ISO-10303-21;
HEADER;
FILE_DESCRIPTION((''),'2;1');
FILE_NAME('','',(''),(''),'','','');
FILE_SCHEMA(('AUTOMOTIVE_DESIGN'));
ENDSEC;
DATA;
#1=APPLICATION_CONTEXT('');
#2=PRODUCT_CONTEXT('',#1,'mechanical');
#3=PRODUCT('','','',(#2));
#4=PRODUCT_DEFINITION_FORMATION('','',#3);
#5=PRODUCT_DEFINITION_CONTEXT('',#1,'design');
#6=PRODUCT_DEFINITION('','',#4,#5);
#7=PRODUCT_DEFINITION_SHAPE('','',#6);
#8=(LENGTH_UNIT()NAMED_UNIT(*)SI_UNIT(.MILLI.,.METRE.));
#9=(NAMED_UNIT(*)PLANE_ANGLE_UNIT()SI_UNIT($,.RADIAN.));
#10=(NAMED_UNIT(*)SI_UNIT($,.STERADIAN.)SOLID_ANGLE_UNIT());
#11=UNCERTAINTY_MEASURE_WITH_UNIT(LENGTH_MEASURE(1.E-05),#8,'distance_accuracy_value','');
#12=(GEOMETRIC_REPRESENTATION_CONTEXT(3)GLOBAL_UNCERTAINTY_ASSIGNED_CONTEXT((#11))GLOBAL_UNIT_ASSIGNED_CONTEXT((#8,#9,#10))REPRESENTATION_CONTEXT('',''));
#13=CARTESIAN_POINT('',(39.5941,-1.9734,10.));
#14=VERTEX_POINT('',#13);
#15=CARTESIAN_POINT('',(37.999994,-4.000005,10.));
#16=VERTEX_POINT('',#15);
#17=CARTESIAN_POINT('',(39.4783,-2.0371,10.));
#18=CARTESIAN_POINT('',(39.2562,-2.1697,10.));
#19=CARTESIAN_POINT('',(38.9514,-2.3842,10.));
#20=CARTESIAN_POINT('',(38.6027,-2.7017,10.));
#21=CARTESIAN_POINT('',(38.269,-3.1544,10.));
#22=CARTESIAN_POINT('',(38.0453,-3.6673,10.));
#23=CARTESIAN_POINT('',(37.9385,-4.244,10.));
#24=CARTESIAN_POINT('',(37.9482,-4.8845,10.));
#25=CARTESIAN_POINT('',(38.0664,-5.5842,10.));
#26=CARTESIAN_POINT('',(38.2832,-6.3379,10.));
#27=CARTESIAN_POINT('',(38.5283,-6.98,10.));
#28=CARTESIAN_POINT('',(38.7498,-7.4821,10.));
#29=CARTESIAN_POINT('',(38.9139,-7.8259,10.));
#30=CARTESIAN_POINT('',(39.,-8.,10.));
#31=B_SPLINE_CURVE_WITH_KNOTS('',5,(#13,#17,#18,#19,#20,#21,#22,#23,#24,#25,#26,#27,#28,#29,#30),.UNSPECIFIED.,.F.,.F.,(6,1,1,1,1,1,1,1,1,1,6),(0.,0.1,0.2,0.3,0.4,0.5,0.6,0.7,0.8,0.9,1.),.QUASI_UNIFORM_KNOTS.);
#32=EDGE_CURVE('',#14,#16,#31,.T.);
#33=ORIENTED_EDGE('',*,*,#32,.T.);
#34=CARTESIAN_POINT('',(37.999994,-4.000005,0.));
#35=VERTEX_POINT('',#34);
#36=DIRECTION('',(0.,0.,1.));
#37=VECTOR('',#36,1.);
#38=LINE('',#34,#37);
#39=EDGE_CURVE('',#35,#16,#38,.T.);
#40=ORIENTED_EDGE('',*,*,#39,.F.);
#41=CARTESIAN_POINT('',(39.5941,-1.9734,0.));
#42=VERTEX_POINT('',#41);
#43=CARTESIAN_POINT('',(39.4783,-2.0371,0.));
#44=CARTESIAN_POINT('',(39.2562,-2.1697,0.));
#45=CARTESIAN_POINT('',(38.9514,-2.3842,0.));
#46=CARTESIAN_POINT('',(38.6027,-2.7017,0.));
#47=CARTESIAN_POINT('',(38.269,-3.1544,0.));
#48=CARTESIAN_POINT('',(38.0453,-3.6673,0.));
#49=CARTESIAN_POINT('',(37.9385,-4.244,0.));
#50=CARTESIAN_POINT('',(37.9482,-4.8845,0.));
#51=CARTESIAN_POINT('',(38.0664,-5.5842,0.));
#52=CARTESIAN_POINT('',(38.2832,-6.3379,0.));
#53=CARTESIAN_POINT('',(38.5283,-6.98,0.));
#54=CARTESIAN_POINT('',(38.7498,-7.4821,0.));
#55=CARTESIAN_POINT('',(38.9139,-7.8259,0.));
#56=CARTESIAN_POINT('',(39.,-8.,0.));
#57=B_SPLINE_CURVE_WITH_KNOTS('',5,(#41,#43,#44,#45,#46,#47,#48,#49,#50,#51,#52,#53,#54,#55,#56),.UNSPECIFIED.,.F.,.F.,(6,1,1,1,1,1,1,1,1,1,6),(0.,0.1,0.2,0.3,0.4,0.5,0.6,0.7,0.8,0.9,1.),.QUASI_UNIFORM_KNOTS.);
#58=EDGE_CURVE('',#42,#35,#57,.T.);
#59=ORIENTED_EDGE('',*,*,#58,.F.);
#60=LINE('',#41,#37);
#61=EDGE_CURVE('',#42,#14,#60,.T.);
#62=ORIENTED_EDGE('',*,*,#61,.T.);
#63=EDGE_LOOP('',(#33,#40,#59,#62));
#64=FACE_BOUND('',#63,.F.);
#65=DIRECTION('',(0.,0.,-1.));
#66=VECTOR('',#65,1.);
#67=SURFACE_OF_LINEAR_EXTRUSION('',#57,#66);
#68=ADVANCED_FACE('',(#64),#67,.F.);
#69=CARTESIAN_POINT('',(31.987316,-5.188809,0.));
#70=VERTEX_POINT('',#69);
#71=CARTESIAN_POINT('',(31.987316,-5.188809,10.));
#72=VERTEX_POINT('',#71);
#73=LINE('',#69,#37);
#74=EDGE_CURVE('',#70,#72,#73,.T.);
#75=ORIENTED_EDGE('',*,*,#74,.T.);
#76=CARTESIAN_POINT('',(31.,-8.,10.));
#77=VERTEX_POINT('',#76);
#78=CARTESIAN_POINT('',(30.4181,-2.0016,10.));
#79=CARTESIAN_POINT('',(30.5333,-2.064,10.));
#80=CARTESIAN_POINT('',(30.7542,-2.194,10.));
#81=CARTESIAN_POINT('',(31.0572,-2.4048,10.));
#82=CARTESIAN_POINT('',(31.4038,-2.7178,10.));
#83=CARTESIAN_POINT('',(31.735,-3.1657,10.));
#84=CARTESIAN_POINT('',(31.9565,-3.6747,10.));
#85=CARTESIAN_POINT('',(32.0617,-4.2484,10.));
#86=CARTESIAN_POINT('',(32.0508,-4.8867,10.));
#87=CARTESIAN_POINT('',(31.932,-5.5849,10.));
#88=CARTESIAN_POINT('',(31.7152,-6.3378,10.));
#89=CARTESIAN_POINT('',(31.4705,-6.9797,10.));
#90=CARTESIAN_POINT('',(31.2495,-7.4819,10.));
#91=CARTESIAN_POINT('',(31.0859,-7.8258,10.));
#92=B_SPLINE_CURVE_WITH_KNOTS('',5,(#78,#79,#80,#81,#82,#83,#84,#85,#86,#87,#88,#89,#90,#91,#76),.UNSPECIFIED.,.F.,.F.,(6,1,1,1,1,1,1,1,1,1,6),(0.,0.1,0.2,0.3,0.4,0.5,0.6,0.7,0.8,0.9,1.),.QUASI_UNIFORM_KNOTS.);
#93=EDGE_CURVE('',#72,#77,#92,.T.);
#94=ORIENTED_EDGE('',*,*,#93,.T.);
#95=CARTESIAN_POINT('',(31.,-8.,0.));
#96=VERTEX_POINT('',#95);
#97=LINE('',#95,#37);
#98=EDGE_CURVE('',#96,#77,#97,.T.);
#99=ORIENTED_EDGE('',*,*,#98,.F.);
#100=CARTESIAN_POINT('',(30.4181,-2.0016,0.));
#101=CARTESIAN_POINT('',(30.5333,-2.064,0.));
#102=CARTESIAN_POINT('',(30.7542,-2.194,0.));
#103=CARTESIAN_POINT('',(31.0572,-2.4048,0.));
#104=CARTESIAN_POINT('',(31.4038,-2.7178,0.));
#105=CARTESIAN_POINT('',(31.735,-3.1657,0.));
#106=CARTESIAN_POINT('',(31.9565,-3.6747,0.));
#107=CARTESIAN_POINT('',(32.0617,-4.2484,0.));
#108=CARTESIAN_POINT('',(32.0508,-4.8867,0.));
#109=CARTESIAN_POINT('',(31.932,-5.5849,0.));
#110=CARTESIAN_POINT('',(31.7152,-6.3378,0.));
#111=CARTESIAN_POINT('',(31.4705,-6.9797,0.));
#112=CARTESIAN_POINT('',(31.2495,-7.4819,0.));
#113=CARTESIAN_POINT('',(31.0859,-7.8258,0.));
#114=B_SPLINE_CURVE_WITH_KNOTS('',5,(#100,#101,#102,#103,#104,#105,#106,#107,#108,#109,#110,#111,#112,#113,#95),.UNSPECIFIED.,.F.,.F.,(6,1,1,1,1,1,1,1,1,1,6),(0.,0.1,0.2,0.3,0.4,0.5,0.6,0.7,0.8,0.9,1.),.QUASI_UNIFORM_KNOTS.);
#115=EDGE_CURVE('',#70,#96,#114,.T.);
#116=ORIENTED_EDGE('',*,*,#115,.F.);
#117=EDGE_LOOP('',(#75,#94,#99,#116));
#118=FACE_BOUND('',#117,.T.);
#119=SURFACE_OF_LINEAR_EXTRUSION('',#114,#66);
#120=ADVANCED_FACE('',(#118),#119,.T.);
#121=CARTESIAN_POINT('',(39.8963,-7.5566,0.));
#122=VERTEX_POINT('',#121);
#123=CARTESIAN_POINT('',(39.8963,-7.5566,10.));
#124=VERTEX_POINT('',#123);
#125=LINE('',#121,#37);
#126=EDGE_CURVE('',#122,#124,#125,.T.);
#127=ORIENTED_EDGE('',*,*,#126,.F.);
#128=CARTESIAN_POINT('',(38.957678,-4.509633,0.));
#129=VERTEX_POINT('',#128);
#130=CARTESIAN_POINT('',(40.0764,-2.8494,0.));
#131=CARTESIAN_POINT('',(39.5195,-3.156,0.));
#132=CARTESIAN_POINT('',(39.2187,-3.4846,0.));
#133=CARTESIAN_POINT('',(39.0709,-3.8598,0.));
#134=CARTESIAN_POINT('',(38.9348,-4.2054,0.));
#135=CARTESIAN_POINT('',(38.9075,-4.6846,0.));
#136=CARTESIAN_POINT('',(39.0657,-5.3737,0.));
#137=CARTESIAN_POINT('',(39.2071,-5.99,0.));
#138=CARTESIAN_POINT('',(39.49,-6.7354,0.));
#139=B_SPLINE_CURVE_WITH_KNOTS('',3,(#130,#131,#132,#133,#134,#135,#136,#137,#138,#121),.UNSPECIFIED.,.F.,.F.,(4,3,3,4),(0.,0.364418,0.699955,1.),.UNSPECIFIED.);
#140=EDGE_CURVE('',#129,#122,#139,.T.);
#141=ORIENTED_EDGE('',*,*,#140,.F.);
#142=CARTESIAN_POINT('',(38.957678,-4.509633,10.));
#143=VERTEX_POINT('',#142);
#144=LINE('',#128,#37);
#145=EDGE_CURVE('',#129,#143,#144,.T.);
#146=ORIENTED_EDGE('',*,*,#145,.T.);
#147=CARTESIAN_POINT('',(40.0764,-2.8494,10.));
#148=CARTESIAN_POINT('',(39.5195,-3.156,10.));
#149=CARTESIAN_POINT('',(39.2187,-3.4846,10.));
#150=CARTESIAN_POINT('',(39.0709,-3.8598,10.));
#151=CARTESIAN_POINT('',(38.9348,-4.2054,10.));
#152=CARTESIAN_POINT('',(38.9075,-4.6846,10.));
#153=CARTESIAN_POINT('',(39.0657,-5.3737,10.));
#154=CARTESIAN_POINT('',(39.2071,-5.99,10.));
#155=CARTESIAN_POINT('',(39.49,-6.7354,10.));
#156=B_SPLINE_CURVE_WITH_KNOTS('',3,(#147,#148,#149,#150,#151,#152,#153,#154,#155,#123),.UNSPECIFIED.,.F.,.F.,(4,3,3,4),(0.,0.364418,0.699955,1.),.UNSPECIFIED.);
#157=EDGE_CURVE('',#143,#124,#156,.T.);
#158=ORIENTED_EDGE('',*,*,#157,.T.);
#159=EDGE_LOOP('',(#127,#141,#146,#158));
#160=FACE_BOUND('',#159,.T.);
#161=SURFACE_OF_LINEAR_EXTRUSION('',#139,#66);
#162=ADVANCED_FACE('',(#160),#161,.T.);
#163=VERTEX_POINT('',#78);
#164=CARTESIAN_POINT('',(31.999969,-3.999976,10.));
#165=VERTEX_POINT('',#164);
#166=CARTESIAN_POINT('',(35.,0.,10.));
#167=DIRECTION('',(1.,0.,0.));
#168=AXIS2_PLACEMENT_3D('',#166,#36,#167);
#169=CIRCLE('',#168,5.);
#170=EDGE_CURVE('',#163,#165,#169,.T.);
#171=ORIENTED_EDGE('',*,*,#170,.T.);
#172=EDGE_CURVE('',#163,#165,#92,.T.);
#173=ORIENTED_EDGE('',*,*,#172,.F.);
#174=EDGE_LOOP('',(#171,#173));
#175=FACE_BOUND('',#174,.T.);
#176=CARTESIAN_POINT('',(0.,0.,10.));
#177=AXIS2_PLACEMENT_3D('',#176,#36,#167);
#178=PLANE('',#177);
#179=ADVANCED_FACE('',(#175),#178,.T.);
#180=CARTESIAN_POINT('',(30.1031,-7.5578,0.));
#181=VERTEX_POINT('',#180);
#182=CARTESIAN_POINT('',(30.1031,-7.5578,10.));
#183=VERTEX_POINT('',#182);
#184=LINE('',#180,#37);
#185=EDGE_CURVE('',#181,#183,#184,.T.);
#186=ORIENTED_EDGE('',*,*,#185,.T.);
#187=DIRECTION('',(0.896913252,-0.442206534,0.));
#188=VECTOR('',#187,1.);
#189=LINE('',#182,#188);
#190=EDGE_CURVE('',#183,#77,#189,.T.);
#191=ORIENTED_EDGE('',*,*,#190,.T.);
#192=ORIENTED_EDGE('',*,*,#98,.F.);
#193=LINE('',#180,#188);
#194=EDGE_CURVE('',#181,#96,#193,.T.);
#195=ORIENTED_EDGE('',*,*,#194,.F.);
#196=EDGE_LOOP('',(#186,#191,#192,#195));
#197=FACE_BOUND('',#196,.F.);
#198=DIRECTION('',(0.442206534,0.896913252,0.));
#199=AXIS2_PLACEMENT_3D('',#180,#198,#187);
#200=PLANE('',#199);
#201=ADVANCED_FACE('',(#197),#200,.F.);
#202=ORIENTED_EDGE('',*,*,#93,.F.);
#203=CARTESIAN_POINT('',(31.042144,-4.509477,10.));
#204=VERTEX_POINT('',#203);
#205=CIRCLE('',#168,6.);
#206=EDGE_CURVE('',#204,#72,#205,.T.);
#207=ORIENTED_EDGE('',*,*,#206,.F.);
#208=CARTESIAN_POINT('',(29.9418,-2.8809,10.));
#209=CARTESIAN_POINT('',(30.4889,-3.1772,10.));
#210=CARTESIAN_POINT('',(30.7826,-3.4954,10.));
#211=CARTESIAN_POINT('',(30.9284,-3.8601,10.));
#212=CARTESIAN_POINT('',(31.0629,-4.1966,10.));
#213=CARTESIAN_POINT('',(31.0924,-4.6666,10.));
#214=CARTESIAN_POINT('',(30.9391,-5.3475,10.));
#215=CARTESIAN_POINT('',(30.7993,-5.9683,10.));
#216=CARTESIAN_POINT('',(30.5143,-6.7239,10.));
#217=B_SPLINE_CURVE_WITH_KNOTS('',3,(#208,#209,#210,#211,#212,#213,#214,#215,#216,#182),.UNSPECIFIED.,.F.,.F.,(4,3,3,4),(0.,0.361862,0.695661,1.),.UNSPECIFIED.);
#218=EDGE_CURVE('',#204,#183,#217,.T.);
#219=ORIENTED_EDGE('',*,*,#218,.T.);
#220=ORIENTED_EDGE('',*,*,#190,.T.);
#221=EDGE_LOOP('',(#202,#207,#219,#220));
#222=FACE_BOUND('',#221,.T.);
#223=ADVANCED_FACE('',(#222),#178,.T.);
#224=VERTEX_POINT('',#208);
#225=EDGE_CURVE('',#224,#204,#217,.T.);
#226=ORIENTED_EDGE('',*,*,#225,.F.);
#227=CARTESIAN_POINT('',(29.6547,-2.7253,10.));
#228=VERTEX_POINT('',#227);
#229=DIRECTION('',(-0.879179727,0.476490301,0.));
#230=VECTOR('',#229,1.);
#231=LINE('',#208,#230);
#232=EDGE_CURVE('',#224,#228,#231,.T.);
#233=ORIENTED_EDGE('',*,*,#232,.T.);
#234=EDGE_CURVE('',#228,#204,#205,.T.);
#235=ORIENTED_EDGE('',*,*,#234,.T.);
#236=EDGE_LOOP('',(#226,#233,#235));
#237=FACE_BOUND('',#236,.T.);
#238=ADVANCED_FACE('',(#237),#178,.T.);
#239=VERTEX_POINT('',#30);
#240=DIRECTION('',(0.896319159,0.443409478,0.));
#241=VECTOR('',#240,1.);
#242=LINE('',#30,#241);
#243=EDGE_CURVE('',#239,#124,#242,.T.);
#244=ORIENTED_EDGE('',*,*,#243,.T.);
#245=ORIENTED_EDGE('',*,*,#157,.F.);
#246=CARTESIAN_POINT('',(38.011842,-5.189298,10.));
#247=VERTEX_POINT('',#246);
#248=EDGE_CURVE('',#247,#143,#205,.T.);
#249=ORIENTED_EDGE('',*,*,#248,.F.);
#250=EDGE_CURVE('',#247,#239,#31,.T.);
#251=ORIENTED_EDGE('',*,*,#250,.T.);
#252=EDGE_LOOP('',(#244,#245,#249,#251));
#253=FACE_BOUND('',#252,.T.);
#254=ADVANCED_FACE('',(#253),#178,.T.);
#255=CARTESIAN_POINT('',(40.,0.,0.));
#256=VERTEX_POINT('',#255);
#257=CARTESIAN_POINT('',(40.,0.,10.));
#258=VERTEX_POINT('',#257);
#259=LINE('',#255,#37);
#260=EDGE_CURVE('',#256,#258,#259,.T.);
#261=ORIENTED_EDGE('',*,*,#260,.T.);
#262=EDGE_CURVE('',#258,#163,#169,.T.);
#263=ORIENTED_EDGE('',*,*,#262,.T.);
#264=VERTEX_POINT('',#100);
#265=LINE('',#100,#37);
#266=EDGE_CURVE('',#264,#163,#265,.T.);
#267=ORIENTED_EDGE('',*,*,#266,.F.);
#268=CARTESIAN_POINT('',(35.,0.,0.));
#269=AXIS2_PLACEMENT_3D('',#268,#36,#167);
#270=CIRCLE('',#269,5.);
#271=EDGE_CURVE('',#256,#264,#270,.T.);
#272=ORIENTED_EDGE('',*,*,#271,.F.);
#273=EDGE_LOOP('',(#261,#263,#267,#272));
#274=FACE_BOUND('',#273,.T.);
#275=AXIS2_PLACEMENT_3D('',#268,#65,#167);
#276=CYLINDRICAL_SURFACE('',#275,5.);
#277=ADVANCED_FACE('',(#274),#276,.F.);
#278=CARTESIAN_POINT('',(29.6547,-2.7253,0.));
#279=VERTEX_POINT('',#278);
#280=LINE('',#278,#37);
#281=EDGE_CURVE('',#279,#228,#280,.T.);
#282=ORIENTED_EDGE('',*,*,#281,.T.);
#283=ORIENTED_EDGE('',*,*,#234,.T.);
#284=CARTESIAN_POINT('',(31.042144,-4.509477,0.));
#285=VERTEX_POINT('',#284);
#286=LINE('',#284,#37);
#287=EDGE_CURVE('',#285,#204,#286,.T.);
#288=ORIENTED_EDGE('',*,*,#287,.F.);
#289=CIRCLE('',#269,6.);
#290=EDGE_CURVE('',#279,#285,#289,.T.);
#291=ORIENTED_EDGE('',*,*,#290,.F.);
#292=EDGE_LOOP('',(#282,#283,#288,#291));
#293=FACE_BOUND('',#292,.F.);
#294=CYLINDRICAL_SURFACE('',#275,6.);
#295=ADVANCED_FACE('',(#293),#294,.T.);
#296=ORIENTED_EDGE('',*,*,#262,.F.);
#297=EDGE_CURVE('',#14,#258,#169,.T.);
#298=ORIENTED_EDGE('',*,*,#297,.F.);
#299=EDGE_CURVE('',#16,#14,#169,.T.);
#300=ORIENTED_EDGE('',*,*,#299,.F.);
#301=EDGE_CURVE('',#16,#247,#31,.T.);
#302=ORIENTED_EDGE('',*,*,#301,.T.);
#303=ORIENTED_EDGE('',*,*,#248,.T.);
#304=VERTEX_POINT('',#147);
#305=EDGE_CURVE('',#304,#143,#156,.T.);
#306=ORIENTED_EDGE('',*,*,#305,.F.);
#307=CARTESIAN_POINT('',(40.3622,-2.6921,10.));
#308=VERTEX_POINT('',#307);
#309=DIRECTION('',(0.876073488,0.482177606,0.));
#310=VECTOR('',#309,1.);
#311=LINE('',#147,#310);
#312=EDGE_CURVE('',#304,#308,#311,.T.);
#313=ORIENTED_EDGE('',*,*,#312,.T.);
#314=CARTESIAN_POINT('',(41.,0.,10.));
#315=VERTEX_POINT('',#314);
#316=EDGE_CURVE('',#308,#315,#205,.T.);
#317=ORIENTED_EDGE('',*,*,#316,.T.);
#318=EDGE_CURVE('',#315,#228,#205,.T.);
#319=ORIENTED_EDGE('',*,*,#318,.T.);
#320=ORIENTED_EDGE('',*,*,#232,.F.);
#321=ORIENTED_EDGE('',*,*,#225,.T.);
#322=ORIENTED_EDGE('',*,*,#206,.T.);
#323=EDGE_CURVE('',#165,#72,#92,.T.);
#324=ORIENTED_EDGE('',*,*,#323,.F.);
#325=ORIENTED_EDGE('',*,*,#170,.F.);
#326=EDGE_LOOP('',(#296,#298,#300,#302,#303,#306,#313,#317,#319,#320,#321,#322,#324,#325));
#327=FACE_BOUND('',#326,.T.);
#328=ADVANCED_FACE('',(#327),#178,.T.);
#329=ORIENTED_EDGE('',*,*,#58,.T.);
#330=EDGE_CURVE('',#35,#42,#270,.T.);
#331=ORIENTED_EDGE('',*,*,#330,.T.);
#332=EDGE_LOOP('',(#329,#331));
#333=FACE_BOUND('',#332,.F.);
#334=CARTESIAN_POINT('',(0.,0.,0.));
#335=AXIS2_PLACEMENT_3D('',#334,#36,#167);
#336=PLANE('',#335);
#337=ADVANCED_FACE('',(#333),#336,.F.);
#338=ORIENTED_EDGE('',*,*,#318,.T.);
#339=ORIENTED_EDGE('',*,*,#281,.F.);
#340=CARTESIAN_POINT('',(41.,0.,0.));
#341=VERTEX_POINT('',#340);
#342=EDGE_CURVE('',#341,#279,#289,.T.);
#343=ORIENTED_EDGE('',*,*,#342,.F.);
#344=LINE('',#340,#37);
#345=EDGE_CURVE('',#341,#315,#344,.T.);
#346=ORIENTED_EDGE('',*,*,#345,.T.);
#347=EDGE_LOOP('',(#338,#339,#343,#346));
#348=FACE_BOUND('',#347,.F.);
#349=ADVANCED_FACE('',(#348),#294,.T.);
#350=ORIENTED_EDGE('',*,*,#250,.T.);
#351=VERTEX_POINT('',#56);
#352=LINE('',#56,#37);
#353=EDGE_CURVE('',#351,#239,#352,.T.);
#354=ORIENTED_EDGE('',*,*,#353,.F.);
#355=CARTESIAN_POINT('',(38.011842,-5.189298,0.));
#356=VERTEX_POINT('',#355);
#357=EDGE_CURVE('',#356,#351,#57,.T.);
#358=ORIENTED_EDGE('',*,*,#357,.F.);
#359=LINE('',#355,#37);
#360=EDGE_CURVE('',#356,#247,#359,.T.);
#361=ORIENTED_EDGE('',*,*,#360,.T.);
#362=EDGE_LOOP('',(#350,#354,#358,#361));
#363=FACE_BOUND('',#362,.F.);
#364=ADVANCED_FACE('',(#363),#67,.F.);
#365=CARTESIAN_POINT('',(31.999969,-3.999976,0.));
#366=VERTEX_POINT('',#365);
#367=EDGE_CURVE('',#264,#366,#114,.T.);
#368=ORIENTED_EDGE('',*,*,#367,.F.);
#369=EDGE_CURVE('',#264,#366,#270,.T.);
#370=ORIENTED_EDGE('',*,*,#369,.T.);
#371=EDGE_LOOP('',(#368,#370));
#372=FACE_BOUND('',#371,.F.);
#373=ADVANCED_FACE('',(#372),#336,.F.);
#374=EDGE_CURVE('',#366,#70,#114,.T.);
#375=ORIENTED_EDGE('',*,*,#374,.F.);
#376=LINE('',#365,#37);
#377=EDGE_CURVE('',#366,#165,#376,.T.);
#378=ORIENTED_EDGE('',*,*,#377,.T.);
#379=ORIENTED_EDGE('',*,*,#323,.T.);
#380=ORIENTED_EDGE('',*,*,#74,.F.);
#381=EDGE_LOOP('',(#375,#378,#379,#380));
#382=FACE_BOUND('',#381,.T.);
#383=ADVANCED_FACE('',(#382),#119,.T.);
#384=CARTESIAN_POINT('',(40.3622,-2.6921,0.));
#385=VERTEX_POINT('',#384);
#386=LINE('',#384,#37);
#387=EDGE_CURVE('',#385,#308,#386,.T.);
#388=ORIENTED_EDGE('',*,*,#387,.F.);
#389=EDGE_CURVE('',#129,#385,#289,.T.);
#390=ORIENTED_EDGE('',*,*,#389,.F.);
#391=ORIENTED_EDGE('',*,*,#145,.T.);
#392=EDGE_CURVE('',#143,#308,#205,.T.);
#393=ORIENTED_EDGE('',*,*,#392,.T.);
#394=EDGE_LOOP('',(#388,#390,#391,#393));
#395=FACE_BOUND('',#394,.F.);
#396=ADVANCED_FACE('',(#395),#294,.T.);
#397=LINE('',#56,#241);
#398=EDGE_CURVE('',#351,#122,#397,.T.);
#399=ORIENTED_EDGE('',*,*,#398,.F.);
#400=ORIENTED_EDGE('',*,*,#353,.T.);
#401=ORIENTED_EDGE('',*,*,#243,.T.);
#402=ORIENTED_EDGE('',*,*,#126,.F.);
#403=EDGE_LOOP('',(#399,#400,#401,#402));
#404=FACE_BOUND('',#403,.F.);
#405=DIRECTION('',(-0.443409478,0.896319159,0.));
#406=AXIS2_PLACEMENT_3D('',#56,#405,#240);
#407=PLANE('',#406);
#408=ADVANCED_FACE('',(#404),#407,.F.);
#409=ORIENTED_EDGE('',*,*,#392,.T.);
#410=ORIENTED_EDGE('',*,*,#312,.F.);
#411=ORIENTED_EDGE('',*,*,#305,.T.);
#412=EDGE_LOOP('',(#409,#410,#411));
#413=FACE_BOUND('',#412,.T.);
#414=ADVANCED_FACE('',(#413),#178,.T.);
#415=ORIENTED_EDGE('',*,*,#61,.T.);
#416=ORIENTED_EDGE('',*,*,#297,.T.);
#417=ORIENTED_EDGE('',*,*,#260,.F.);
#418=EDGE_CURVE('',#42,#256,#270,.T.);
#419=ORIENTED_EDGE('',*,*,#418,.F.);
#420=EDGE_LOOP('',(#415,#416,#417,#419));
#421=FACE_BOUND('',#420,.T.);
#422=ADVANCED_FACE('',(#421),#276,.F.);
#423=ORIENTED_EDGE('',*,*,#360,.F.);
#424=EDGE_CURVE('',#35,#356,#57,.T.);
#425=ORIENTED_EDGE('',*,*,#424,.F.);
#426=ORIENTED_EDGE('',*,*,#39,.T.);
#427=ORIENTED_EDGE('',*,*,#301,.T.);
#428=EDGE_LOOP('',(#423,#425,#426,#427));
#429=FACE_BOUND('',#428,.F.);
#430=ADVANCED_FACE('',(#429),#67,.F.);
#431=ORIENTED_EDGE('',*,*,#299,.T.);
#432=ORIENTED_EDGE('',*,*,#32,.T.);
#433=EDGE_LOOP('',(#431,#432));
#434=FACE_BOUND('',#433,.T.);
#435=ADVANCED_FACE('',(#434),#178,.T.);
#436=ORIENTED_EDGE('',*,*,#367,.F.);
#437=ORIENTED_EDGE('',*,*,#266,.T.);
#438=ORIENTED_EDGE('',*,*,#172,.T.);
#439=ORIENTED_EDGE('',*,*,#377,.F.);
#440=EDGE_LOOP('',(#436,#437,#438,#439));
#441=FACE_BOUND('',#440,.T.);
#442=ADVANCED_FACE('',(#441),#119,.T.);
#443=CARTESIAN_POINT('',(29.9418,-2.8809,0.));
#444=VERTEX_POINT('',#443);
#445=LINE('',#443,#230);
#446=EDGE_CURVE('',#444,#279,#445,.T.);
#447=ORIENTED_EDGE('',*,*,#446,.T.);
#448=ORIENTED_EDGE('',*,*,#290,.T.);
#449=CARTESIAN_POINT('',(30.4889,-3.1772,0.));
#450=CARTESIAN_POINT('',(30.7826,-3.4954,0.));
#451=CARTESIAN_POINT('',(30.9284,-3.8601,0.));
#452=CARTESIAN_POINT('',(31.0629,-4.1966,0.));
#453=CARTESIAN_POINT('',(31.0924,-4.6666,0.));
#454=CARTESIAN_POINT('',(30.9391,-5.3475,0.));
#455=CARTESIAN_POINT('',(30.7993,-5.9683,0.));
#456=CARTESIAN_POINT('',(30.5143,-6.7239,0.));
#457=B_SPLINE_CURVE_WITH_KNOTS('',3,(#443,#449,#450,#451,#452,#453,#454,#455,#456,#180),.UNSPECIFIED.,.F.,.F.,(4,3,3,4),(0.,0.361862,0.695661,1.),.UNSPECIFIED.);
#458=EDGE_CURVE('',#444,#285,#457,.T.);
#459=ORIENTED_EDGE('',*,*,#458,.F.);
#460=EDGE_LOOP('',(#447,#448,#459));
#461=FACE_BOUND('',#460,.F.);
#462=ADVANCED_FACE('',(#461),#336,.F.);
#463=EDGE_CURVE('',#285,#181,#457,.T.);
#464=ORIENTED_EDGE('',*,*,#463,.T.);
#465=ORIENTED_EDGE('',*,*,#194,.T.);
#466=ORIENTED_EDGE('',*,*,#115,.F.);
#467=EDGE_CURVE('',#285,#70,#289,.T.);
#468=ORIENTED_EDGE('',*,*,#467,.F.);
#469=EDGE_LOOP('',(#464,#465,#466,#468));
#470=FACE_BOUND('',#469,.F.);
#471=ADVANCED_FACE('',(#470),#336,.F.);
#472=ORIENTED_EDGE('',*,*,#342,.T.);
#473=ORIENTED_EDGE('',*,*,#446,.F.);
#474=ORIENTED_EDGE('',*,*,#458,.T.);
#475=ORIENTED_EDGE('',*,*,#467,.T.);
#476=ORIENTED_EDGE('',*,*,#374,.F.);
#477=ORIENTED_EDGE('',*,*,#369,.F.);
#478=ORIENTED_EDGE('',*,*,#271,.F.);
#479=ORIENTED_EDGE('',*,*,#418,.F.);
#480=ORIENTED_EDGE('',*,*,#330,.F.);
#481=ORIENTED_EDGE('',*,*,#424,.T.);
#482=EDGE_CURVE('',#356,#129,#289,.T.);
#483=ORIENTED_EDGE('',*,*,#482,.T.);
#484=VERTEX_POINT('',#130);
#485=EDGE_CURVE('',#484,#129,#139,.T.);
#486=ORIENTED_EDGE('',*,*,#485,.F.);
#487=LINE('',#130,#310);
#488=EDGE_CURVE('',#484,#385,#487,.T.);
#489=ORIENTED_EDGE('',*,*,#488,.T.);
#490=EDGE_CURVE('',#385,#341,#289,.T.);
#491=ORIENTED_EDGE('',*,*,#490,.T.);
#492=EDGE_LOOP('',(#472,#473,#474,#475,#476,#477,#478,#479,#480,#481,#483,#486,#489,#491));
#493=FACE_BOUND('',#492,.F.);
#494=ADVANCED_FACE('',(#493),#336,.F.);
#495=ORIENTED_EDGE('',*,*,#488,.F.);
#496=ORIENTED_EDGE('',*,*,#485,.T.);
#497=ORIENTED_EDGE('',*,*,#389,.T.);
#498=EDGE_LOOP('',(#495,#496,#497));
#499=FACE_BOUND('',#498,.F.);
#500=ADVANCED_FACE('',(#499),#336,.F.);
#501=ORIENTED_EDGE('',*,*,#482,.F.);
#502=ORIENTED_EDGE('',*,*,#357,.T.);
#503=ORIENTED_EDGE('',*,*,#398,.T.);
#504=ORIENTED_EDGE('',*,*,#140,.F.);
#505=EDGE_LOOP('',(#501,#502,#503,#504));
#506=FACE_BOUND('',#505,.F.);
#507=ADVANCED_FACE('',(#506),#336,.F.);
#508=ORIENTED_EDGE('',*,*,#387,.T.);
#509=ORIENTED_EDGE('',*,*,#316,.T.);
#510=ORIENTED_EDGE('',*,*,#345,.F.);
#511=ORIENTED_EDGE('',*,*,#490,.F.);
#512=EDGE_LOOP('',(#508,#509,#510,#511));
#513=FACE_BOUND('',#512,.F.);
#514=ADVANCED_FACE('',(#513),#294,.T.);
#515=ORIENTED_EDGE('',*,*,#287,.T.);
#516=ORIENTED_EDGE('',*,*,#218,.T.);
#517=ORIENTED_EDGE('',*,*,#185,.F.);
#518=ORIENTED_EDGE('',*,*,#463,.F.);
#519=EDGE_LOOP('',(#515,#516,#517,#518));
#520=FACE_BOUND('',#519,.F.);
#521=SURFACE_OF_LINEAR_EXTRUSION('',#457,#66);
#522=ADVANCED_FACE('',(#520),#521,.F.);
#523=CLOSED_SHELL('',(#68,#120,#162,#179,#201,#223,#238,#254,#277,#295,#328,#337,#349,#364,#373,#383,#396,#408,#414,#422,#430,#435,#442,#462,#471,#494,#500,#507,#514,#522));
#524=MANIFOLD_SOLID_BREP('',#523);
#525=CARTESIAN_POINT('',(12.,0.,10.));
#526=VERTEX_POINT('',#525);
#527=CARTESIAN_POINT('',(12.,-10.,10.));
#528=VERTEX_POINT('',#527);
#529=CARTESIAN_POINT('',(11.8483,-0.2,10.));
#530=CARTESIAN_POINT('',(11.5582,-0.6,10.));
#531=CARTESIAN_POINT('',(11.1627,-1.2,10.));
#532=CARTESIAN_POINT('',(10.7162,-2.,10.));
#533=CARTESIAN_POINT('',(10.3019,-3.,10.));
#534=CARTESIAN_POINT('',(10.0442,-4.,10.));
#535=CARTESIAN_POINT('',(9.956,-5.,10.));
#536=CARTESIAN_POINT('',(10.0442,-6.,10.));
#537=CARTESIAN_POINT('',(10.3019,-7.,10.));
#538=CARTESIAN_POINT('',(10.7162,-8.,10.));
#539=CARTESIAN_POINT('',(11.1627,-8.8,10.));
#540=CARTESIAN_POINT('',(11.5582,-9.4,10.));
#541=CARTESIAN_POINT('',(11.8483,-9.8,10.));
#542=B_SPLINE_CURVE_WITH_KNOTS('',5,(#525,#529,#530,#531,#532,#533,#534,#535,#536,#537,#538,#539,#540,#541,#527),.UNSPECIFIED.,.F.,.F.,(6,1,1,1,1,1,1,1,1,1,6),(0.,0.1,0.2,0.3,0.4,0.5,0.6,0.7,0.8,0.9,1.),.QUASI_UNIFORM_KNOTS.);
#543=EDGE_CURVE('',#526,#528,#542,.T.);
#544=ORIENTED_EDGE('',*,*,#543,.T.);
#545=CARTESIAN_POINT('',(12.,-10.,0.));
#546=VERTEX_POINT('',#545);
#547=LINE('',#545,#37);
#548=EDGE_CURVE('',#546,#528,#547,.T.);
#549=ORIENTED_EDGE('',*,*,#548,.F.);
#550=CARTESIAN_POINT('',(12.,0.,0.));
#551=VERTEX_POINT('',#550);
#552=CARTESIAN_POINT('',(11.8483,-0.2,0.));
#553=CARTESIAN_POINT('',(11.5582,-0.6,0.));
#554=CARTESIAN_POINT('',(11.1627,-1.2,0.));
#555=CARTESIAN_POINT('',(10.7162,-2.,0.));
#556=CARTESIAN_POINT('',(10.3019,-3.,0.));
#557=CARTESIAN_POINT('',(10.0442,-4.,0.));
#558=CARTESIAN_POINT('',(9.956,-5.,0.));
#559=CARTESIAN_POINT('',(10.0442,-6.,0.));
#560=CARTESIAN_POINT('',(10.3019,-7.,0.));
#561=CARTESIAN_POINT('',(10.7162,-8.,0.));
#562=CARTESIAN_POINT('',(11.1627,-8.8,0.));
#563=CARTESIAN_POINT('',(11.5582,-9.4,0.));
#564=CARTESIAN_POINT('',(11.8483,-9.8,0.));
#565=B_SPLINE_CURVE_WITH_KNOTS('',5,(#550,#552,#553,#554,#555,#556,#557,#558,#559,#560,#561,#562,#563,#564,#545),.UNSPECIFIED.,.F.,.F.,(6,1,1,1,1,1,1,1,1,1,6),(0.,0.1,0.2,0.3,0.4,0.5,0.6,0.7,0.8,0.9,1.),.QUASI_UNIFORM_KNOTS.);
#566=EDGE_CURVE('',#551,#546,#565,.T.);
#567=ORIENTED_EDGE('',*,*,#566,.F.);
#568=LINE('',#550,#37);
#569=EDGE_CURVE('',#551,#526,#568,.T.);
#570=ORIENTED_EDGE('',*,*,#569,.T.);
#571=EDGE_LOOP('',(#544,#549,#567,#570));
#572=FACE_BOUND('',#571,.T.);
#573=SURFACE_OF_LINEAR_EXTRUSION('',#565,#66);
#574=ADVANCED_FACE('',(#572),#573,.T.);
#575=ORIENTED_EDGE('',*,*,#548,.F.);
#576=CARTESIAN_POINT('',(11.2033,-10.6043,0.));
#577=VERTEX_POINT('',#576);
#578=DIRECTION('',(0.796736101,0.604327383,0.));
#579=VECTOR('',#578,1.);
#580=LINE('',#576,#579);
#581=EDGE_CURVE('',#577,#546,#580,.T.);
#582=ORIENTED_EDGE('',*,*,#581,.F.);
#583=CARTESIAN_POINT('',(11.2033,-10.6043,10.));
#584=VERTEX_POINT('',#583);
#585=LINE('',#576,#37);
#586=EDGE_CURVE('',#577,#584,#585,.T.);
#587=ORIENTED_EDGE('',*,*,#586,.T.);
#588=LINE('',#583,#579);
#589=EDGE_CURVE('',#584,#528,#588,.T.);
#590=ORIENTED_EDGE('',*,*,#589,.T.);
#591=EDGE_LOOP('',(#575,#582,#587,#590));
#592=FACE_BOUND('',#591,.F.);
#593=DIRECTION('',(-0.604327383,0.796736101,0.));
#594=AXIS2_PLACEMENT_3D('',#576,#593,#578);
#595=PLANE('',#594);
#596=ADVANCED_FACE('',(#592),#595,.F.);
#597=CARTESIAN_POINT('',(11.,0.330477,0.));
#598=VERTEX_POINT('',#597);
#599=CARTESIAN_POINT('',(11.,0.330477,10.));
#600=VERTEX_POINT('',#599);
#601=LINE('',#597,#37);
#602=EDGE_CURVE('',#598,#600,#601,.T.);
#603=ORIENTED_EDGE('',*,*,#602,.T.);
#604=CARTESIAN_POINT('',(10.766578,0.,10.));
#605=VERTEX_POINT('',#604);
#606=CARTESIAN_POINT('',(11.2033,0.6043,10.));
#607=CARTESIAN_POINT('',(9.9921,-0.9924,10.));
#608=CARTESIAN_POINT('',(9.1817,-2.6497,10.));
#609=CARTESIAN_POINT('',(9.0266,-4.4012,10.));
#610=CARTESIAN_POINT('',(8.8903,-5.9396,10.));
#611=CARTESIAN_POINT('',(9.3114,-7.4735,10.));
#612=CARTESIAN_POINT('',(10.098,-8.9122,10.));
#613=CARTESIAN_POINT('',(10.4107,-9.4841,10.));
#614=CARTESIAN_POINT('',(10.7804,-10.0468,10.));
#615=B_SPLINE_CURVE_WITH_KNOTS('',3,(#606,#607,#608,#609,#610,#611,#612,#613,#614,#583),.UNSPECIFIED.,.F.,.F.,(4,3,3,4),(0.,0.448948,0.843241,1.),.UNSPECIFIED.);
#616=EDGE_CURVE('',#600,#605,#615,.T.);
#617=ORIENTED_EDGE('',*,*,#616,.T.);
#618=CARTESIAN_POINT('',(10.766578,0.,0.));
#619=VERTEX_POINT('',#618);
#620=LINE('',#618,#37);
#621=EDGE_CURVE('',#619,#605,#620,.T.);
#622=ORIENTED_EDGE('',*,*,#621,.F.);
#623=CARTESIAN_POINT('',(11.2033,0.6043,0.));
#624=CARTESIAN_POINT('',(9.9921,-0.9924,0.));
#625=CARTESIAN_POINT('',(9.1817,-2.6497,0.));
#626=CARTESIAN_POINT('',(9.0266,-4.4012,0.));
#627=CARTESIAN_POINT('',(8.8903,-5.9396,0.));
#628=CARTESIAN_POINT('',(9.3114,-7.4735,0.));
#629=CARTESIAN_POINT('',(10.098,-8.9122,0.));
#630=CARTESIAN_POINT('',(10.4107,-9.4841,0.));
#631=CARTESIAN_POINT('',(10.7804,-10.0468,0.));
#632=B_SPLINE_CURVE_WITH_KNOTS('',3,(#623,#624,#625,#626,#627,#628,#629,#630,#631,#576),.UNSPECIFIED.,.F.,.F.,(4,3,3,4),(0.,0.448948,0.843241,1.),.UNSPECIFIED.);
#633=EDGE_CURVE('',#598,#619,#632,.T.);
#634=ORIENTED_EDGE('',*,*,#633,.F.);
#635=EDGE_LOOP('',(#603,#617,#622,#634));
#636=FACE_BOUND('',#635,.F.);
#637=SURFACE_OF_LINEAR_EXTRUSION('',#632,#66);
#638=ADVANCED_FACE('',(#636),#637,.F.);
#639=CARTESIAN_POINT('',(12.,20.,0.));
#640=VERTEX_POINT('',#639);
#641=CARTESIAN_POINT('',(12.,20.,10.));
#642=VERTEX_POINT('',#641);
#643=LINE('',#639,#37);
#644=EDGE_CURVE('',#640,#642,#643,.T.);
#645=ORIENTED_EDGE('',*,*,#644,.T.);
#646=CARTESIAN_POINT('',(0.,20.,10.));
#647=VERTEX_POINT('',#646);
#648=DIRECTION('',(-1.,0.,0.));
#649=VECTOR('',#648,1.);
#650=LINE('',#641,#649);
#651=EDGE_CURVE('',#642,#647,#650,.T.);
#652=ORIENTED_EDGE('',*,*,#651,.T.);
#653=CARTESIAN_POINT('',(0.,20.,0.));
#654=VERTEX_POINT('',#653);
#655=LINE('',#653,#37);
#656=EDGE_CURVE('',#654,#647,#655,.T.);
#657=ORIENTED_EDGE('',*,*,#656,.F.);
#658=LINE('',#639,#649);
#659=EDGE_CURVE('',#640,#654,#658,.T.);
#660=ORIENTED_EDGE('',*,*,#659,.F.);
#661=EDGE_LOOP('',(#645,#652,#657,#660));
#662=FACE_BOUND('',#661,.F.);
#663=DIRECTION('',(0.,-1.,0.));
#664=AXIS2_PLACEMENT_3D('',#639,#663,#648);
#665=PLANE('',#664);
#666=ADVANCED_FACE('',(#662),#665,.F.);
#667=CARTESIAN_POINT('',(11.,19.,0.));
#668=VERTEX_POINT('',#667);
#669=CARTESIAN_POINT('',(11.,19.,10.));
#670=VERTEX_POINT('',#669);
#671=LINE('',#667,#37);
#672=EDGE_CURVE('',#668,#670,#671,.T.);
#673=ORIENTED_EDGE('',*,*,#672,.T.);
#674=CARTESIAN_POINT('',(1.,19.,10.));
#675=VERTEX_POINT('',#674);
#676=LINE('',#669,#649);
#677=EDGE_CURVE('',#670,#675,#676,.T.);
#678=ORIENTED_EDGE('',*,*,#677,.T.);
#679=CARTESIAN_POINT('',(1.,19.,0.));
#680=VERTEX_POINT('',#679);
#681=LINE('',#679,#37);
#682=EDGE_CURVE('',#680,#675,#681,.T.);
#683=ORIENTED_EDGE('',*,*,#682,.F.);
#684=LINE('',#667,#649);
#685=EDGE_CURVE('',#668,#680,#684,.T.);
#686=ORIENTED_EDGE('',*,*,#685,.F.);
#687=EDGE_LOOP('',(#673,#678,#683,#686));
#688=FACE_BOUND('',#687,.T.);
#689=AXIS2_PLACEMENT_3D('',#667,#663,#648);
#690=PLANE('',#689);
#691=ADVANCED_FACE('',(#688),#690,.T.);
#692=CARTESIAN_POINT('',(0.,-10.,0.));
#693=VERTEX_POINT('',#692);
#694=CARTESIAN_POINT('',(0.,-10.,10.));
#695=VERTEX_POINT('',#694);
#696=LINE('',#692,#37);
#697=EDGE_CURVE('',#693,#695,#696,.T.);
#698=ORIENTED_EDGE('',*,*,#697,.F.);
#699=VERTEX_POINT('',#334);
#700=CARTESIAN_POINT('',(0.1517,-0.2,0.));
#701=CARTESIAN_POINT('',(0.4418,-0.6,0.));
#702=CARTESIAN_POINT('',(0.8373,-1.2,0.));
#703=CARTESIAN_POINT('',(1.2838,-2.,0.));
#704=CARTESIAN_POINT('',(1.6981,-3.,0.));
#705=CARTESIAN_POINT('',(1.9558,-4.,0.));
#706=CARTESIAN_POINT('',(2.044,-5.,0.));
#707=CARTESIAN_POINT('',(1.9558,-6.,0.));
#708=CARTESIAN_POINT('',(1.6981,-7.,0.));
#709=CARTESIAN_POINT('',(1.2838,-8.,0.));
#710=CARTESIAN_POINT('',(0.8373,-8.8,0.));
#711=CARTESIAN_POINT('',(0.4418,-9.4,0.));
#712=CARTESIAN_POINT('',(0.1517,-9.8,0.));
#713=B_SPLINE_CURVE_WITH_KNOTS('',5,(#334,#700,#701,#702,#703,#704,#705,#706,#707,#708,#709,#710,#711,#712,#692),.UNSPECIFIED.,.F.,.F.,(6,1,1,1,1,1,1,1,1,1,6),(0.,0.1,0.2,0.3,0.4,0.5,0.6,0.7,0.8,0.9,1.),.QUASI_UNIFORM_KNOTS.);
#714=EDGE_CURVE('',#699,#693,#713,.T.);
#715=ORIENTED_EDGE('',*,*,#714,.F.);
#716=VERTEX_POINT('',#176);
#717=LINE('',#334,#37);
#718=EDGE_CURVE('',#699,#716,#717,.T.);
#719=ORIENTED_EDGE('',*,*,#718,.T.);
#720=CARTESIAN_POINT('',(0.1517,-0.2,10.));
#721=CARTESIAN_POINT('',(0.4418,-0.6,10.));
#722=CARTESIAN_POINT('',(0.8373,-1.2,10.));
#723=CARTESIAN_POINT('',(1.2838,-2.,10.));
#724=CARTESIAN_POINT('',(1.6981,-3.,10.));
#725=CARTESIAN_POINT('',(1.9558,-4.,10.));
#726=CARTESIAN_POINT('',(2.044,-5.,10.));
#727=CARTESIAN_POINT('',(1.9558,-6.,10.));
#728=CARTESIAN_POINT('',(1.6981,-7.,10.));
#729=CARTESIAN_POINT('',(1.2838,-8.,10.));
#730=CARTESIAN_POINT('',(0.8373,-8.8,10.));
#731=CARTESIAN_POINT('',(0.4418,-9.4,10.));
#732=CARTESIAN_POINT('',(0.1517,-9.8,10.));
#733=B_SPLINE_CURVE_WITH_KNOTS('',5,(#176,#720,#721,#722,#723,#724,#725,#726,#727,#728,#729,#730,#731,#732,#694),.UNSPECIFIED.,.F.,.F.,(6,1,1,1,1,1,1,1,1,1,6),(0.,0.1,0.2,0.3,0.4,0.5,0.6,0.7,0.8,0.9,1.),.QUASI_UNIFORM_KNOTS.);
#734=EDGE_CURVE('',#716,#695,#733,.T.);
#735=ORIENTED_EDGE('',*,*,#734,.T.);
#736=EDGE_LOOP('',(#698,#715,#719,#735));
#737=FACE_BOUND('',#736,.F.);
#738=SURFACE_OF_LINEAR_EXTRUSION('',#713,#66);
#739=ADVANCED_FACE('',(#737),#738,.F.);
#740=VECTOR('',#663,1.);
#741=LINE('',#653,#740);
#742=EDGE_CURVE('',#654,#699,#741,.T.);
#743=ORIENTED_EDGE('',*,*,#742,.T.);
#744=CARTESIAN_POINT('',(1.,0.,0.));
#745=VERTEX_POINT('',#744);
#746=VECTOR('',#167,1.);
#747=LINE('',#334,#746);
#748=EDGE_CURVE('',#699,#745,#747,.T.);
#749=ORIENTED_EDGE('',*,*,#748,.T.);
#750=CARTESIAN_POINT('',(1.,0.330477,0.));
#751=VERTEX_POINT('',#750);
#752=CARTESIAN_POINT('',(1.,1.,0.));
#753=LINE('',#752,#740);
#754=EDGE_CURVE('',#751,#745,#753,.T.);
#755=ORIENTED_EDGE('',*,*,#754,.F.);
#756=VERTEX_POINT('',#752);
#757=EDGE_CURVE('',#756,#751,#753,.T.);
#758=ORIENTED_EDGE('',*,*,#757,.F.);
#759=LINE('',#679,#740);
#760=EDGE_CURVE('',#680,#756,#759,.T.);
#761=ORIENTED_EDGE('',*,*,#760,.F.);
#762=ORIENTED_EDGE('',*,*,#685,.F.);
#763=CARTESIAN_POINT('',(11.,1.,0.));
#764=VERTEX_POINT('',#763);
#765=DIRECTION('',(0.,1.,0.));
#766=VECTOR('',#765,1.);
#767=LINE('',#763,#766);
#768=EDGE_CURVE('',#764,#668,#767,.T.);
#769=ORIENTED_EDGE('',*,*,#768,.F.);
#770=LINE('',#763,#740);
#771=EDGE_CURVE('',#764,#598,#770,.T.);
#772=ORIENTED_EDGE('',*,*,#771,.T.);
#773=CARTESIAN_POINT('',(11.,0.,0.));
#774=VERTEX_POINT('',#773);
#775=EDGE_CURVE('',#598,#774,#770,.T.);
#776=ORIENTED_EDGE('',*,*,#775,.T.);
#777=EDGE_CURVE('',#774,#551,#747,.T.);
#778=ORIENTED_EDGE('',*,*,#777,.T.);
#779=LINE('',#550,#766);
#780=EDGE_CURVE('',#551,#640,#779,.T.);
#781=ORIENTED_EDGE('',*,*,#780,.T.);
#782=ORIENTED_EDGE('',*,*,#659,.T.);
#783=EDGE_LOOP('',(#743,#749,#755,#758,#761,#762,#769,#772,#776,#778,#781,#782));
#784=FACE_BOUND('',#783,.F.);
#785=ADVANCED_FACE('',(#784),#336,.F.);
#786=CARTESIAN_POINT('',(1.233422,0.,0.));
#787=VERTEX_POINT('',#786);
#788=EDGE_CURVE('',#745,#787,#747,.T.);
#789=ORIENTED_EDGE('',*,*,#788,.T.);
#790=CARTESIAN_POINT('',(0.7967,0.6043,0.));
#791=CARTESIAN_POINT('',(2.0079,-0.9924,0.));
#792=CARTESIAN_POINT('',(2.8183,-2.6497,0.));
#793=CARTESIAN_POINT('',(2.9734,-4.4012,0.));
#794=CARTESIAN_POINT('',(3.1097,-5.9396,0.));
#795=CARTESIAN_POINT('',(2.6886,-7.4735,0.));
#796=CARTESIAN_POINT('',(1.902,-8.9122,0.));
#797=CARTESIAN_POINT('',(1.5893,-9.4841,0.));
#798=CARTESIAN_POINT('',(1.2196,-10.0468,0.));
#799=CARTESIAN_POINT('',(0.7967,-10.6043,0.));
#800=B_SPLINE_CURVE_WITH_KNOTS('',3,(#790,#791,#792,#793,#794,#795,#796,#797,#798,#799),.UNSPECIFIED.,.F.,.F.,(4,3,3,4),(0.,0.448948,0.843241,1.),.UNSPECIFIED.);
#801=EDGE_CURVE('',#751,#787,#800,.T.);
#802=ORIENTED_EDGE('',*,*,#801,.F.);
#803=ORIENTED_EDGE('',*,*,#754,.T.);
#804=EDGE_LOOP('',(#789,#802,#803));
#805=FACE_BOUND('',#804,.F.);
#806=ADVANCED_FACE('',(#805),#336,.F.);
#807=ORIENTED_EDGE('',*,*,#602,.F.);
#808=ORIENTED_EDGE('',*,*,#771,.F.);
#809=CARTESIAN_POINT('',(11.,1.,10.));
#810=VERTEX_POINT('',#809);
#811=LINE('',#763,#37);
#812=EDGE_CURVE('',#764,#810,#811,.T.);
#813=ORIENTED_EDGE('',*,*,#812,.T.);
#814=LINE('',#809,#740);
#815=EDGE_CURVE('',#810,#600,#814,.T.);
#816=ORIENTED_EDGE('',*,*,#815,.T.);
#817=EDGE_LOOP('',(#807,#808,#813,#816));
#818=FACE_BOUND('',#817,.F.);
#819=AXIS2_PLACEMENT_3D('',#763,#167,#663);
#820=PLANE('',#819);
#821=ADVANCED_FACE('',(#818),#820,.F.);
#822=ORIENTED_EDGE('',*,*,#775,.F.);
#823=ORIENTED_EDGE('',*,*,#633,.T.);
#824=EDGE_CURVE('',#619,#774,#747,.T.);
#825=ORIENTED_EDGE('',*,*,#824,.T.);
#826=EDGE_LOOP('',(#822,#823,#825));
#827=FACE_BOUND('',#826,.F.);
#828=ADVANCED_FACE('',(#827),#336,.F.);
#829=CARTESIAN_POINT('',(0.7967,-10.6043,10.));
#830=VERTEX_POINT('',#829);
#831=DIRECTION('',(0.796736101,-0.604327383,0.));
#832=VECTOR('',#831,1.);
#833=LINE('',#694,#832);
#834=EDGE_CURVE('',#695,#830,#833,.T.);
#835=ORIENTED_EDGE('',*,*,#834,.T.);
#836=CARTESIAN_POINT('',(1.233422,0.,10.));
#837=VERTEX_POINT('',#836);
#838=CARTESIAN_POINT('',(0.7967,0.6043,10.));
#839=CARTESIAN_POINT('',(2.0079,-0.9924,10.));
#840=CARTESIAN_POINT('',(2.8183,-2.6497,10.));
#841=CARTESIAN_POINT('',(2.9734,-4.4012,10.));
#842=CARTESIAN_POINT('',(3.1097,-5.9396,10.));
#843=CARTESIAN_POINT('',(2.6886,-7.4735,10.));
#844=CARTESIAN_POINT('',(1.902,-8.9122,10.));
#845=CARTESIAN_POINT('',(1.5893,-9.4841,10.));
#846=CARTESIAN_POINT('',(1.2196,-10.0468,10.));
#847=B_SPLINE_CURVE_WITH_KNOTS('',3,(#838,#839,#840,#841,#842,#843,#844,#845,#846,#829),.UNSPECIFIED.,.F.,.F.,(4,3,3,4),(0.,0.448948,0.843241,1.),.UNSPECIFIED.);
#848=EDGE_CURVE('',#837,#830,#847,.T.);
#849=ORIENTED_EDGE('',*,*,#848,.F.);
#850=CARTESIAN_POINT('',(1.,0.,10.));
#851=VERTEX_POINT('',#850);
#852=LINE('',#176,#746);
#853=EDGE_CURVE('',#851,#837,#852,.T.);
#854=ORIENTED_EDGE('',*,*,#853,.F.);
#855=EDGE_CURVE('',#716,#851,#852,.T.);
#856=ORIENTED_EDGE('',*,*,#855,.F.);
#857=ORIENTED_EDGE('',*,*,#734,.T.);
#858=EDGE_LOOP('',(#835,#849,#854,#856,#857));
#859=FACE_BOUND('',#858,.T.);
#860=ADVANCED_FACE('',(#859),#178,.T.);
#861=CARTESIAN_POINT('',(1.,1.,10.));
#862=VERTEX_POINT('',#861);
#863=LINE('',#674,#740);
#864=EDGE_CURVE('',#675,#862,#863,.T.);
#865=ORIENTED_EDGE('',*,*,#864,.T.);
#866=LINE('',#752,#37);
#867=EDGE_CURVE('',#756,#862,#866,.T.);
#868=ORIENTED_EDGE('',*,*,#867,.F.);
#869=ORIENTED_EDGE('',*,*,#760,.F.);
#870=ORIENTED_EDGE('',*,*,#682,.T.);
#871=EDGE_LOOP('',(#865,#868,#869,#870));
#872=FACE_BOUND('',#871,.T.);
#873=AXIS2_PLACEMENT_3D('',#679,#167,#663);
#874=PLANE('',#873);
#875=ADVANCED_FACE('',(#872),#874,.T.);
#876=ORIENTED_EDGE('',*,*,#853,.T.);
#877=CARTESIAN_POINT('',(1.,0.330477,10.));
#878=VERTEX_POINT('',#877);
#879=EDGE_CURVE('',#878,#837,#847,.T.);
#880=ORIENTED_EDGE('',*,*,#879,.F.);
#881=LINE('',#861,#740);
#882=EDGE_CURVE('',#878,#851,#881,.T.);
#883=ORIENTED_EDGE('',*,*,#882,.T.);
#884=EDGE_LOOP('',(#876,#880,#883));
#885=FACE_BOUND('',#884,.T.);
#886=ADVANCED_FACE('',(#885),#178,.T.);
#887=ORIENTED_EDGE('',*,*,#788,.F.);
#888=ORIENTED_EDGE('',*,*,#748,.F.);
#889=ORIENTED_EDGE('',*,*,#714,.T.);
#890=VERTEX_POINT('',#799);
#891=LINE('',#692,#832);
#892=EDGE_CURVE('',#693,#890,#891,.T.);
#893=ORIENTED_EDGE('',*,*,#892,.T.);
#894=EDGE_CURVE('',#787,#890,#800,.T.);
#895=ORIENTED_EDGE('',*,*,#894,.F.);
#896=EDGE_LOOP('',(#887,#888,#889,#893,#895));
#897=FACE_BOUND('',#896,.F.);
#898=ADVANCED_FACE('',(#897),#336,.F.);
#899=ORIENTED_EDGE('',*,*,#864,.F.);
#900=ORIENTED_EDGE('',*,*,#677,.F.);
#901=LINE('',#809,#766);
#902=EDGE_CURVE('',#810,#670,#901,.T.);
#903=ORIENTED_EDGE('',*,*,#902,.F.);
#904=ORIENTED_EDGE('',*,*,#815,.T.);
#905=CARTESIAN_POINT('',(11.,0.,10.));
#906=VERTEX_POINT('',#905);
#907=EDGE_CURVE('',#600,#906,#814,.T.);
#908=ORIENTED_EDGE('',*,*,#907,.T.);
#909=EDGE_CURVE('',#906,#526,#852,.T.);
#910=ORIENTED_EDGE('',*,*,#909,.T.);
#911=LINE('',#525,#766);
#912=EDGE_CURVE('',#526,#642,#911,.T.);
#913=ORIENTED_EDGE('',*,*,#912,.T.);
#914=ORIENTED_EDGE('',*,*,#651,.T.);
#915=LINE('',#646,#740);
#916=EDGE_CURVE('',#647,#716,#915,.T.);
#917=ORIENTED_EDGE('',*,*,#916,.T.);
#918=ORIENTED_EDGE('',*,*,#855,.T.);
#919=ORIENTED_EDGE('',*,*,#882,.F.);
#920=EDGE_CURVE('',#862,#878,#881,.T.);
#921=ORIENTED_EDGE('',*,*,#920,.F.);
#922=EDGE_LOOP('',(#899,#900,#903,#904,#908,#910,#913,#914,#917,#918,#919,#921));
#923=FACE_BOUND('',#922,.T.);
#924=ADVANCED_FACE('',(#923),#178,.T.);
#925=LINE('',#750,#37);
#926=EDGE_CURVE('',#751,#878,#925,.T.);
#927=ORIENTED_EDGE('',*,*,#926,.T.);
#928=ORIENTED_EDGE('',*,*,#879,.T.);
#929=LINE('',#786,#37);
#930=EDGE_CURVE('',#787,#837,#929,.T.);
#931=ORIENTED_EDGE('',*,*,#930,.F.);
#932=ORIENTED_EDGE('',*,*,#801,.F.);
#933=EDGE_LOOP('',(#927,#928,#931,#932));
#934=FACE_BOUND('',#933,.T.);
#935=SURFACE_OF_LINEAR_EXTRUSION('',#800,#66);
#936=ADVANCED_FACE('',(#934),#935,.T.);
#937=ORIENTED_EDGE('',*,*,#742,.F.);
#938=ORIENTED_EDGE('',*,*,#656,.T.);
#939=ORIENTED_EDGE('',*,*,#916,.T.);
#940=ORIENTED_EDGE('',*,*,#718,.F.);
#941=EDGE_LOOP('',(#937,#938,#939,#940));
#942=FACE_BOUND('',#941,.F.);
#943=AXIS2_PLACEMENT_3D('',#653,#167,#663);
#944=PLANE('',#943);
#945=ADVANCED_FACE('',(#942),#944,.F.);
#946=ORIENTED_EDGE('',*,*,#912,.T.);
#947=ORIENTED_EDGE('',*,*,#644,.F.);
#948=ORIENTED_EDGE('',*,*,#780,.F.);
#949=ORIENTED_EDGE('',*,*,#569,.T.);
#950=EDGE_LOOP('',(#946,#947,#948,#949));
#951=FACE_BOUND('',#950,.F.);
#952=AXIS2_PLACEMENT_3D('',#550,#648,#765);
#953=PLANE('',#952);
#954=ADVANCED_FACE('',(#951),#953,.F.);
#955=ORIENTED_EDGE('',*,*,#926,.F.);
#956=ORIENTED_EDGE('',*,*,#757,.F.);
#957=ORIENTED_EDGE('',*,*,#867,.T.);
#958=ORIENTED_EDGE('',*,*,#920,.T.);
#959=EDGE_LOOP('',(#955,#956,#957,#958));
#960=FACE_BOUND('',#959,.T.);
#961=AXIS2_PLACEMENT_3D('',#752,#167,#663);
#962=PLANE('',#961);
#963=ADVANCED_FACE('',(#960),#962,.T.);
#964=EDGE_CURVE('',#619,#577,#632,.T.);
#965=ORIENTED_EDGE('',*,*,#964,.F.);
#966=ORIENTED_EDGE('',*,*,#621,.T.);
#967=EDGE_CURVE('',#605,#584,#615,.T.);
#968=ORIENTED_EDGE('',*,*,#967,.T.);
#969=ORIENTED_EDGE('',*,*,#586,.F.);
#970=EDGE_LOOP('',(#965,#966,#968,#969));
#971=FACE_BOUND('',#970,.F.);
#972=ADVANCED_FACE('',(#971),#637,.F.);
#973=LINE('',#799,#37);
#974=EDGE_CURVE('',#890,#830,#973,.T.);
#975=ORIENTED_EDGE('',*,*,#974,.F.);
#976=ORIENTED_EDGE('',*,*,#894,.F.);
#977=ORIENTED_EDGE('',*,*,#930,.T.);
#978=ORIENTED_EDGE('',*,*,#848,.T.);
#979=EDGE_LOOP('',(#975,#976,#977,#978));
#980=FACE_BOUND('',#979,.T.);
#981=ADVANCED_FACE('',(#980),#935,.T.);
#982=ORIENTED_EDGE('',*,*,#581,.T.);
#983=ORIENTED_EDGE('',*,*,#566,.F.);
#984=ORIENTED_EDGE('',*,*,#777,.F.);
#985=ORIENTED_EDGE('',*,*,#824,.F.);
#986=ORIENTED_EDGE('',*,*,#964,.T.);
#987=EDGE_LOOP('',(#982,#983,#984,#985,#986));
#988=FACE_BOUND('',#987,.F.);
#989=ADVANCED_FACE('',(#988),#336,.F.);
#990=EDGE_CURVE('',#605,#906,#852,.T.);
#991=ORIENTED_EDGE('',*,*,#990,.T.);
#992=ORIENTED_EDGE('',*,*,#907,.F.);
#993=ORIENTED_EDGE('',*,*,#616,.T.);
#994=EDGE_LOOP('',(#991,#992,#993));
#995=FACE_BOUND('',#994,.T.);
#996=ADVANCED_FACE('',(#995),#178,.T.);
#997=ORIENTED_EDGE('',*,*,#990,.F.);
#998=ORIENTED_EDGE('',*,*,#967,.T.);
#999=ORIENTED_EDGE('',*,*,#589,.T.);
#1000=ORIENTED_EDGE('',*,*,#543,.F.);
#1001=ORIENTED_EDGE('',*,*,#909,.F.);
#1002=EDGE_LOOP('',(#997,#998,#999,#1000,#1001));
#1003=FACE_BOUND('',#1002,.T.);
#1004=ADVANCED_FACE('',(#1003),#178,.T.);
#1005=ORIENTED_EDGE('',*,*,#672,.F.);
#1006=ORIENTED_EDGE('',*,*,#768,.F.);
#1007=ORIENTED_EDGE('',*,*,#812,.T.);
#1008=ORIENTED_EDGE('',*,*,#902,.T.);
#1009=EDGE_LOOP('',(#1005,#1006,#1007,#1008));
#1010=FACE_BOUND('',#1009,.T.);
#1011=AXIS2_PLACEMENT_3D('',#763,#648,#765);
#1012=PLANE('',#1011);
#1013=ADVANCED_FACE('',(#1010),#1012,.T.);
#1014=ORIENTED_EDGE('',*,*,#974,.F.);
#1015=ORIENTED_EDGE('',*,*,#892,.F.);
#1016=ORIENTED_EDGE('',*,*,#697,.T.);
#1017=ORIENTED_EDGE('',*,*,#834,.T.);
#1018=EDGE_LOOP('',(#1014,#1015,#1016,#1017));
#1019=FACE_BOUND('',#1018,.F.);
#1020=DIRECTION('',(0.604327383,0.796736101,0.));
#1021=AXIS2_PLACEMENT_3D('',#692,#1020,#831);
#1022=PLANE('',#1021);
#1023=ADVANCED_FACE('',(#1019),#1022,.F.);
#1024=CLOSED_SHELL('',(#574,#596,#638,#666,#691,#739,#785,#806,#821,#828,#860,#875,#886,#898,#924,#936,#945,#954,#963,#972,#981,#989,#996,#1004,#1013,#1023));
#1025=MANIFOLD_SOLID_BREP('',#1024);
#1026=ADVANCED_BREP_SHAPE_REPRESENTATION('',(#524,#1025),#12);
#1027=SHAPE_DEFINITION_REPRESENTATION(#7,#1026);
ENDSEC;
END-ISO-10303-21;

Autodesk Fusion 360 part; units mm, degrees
sketch "スケッチ1" plane through (0, 0, 0) normal (0, 0, 1) x (1, 0, 0)
  line L0 (0, 0) -> (12, 0)
  line L1 (12, 0) -> (12, 20)
  line L2 (12, 20) -> (0, 20)
  line L3 (0, 20) -> (0, 0)
  line L4 (1, 19) -> (1, 1)
  line L5 (1, 1) -> (11, 1)
  line L6 (11, 1) -> (11, 19)
  line L7 (11, 19) -> (1, 19)
  spline S0 degree 5 poles (0, 0) (0.1517, -0.2) (0.4418, -0.6) (0.8373, -1.2) (1.2838, -2) (1.6981, -3) (1.9558, -4) (2.044, -5) (1.9558, -6) (1.6981, -7) (1.2838, -8) (0.8373, -8.8) (0.4418, -9.4) (0.1517, -9.8) (0, -10) knots 0 0 0 0 0 0 0.1 0.2 0.3 0.4 0.5 0.6 0.7 0.8 0.9 1 1 1 1 1 1
  spline S1 degree 5 poles (12, 0) (11.8483, -0.2) (11.5582, -0.6) (11.1627, -1.2) (10.7162, -2) (10.3019, -3) (10.0442, -4) (9.956, -5) (10.0442, -6) (10.3019, -7) (10.7162, -8) (11.1627, -8.8) (11.5582, -9.4) (11.8483, -9.8) (12, -10) knots 0 0 0 0 0 0 0.1 0.2 0.3 0.4 0.5 0.6 0.7 0.8 0.9 1 1 1 1 1 1
  spline S2 degree 3 poles (0.7967, 0.6043) (2.0079, -0.9924) (2.8183, -2.6497) (2.9734, -4.4012) (3.1097, -5.9396) (2.6886, -7.4735) (1.902, -8.9122) (1.5893, -9.4841) (1.2196, -10.0468) (0.7967, -10.6043) knots 0 0 0 0 0.448948 0.448948 0.448948 0.843241 0.843241 0.843241 1 1 1 1
  spline S3 degree 3 poles (11.2033, 0.6043) (9.9921, -0.9924) (9.1817, -2.6497) (9.0266, -4.4012) (8.8903, -5.9396) (9.3114, -7.4735) (10.098, -8.9122) (10.4107, -9.4841) (10.7804, -10.0468) (11.2033, -10.6043) knots 0 0 0 0 0.448948 0.448948 0.448948 0.843241 0.843241 0.843241 1 1 1 1
  line L8 (1, 1) -> (1, 0)
  line L9 (11, 1) -> (11, 0)
  line L10 (0, -10) -> (0.7967, -10.6043)
  line L11 (11.2033, -10.6043) -> (12, -10)
  point P0 (2, -5)
  point P1 (10, -5)
  dimension "d1" = 12
  dimension "d2" = 20
  dimension "d3" = -1
  dimension "d4" = -1
  dimension "d5" = 1
extrude "押し出し1" add sketch "スケッチ1" along normal blind 10 contours L0 L1 L2 L3 L4 L6 L7 L8 L9 | L0 S0 S2 L10 | L0 S2 L8 | L0 S3 L9 | L0 S1 S3 L11 makes body 1
sketch "スケッチ2" plane through (0, 0, 0) normal (0, 0, 1) x (1, 0, 0)
  circle A0 centre (35, 0) radius 6
  circle A1 centre (35, 0) radius 5
  spline S0 degree 5 poles (30.4181, -2.0016) (30.5333, -2.064) (30.7542, -2.194) (31.0572, -2.4048) (31.4038, -2.7178) (31.735, -3.1657) (31.9565, -3.6747) (32.0617, -4.2484) (32.0508, -4.8867) (31.932, -5.5849) (31.7152, -6.3378) (31.4705, -6.9797) (31.2495, -7.4819) (31.0859, -7.8258) (31, -8) knots 0 0 0 0 0 0 0.1 0.2 0.3 0.4 0.5 0.6 0.7 0.8 0.9 1 1 1 1 1 1
  spline S1 degree 5 poles (39.5941, -1.9734) (39.4783, -2.0371) (39.2562, -2.1697) (38.9514, -2.3842) (38.6027, -2.7017) (38.269, -3.1544) (38.0453, -3.6673) (37.9385, -4.244) (37.9482, -4.8845) (38.0664, -5.5842) (38.2832, -6.3379) (38.5283, -6.98) (38.7498, -7.4821) (38.9139, -7.8259) (39, -8) knots 0 0 0 0 0 0 0.1 0.2 0.3 0.4 0.5 0.6 0.7 0.8 0.9 1 1 1 1 1 1
  spline S2 degree 3 poles (29.9418, -2.8809) (30.4889, -3.1772) (30.7826, -3.4954) (30.9284, -3.8601) (31.0629, -4.1966) (31.0924, -4.6666) (30.9391, -5.3475) (30.7993, -5.9683) (30.5143, -6.7239) (30.1031, -7.5578) knots 0 0 0 0 0.361862 0.361862 0.361862 0.695661 0.695661 0.695661 1 1 1 1
  spline S3 degree 3 poles (40.0764, -2.8494) (39.5195, -3.156) (39.2187, -3.4846) (39.0709, -3.8598) (38.9348, -4.2054) (38.9075, -4.6846) (39.0657, -5.3737) (39.2071, -5.99) (39.49, -6.7354) (39.8963, -7.5566) knots 0 0 0 0 0.364418 0.364418 0.364418 0.699955 0.699955 0.699955 1 1 1 1
  line L0 (29.9418, -2.8809) -> (29.6547, -2.7253)
  line L1 (40.0764, -2.8494) -> (40.3622, -2.6921)
  line L2 (30.1031, -7.5578) -> (31, -8)
  line L3 (39, -8) -> (39.8963, -7.5566)
  point P0 (32, -4)
  point P1 (38, -4)
  dimension "d8" = 12
  dimension "d9" = -1
  dimension "d10" = 1
  dimension "d11" = -1
extrude "押し出し2" add sketch "スケッチ2" along normal blind 10 separate body contours A0 A1 S0 S1 S2 S3 L0 L1 | A0 S2 L0 | A0 S3 L1 | A0 S0 S2 L2 | A0 S1 S3 L3 | A1 S0 | A1 S1 makes body 2
